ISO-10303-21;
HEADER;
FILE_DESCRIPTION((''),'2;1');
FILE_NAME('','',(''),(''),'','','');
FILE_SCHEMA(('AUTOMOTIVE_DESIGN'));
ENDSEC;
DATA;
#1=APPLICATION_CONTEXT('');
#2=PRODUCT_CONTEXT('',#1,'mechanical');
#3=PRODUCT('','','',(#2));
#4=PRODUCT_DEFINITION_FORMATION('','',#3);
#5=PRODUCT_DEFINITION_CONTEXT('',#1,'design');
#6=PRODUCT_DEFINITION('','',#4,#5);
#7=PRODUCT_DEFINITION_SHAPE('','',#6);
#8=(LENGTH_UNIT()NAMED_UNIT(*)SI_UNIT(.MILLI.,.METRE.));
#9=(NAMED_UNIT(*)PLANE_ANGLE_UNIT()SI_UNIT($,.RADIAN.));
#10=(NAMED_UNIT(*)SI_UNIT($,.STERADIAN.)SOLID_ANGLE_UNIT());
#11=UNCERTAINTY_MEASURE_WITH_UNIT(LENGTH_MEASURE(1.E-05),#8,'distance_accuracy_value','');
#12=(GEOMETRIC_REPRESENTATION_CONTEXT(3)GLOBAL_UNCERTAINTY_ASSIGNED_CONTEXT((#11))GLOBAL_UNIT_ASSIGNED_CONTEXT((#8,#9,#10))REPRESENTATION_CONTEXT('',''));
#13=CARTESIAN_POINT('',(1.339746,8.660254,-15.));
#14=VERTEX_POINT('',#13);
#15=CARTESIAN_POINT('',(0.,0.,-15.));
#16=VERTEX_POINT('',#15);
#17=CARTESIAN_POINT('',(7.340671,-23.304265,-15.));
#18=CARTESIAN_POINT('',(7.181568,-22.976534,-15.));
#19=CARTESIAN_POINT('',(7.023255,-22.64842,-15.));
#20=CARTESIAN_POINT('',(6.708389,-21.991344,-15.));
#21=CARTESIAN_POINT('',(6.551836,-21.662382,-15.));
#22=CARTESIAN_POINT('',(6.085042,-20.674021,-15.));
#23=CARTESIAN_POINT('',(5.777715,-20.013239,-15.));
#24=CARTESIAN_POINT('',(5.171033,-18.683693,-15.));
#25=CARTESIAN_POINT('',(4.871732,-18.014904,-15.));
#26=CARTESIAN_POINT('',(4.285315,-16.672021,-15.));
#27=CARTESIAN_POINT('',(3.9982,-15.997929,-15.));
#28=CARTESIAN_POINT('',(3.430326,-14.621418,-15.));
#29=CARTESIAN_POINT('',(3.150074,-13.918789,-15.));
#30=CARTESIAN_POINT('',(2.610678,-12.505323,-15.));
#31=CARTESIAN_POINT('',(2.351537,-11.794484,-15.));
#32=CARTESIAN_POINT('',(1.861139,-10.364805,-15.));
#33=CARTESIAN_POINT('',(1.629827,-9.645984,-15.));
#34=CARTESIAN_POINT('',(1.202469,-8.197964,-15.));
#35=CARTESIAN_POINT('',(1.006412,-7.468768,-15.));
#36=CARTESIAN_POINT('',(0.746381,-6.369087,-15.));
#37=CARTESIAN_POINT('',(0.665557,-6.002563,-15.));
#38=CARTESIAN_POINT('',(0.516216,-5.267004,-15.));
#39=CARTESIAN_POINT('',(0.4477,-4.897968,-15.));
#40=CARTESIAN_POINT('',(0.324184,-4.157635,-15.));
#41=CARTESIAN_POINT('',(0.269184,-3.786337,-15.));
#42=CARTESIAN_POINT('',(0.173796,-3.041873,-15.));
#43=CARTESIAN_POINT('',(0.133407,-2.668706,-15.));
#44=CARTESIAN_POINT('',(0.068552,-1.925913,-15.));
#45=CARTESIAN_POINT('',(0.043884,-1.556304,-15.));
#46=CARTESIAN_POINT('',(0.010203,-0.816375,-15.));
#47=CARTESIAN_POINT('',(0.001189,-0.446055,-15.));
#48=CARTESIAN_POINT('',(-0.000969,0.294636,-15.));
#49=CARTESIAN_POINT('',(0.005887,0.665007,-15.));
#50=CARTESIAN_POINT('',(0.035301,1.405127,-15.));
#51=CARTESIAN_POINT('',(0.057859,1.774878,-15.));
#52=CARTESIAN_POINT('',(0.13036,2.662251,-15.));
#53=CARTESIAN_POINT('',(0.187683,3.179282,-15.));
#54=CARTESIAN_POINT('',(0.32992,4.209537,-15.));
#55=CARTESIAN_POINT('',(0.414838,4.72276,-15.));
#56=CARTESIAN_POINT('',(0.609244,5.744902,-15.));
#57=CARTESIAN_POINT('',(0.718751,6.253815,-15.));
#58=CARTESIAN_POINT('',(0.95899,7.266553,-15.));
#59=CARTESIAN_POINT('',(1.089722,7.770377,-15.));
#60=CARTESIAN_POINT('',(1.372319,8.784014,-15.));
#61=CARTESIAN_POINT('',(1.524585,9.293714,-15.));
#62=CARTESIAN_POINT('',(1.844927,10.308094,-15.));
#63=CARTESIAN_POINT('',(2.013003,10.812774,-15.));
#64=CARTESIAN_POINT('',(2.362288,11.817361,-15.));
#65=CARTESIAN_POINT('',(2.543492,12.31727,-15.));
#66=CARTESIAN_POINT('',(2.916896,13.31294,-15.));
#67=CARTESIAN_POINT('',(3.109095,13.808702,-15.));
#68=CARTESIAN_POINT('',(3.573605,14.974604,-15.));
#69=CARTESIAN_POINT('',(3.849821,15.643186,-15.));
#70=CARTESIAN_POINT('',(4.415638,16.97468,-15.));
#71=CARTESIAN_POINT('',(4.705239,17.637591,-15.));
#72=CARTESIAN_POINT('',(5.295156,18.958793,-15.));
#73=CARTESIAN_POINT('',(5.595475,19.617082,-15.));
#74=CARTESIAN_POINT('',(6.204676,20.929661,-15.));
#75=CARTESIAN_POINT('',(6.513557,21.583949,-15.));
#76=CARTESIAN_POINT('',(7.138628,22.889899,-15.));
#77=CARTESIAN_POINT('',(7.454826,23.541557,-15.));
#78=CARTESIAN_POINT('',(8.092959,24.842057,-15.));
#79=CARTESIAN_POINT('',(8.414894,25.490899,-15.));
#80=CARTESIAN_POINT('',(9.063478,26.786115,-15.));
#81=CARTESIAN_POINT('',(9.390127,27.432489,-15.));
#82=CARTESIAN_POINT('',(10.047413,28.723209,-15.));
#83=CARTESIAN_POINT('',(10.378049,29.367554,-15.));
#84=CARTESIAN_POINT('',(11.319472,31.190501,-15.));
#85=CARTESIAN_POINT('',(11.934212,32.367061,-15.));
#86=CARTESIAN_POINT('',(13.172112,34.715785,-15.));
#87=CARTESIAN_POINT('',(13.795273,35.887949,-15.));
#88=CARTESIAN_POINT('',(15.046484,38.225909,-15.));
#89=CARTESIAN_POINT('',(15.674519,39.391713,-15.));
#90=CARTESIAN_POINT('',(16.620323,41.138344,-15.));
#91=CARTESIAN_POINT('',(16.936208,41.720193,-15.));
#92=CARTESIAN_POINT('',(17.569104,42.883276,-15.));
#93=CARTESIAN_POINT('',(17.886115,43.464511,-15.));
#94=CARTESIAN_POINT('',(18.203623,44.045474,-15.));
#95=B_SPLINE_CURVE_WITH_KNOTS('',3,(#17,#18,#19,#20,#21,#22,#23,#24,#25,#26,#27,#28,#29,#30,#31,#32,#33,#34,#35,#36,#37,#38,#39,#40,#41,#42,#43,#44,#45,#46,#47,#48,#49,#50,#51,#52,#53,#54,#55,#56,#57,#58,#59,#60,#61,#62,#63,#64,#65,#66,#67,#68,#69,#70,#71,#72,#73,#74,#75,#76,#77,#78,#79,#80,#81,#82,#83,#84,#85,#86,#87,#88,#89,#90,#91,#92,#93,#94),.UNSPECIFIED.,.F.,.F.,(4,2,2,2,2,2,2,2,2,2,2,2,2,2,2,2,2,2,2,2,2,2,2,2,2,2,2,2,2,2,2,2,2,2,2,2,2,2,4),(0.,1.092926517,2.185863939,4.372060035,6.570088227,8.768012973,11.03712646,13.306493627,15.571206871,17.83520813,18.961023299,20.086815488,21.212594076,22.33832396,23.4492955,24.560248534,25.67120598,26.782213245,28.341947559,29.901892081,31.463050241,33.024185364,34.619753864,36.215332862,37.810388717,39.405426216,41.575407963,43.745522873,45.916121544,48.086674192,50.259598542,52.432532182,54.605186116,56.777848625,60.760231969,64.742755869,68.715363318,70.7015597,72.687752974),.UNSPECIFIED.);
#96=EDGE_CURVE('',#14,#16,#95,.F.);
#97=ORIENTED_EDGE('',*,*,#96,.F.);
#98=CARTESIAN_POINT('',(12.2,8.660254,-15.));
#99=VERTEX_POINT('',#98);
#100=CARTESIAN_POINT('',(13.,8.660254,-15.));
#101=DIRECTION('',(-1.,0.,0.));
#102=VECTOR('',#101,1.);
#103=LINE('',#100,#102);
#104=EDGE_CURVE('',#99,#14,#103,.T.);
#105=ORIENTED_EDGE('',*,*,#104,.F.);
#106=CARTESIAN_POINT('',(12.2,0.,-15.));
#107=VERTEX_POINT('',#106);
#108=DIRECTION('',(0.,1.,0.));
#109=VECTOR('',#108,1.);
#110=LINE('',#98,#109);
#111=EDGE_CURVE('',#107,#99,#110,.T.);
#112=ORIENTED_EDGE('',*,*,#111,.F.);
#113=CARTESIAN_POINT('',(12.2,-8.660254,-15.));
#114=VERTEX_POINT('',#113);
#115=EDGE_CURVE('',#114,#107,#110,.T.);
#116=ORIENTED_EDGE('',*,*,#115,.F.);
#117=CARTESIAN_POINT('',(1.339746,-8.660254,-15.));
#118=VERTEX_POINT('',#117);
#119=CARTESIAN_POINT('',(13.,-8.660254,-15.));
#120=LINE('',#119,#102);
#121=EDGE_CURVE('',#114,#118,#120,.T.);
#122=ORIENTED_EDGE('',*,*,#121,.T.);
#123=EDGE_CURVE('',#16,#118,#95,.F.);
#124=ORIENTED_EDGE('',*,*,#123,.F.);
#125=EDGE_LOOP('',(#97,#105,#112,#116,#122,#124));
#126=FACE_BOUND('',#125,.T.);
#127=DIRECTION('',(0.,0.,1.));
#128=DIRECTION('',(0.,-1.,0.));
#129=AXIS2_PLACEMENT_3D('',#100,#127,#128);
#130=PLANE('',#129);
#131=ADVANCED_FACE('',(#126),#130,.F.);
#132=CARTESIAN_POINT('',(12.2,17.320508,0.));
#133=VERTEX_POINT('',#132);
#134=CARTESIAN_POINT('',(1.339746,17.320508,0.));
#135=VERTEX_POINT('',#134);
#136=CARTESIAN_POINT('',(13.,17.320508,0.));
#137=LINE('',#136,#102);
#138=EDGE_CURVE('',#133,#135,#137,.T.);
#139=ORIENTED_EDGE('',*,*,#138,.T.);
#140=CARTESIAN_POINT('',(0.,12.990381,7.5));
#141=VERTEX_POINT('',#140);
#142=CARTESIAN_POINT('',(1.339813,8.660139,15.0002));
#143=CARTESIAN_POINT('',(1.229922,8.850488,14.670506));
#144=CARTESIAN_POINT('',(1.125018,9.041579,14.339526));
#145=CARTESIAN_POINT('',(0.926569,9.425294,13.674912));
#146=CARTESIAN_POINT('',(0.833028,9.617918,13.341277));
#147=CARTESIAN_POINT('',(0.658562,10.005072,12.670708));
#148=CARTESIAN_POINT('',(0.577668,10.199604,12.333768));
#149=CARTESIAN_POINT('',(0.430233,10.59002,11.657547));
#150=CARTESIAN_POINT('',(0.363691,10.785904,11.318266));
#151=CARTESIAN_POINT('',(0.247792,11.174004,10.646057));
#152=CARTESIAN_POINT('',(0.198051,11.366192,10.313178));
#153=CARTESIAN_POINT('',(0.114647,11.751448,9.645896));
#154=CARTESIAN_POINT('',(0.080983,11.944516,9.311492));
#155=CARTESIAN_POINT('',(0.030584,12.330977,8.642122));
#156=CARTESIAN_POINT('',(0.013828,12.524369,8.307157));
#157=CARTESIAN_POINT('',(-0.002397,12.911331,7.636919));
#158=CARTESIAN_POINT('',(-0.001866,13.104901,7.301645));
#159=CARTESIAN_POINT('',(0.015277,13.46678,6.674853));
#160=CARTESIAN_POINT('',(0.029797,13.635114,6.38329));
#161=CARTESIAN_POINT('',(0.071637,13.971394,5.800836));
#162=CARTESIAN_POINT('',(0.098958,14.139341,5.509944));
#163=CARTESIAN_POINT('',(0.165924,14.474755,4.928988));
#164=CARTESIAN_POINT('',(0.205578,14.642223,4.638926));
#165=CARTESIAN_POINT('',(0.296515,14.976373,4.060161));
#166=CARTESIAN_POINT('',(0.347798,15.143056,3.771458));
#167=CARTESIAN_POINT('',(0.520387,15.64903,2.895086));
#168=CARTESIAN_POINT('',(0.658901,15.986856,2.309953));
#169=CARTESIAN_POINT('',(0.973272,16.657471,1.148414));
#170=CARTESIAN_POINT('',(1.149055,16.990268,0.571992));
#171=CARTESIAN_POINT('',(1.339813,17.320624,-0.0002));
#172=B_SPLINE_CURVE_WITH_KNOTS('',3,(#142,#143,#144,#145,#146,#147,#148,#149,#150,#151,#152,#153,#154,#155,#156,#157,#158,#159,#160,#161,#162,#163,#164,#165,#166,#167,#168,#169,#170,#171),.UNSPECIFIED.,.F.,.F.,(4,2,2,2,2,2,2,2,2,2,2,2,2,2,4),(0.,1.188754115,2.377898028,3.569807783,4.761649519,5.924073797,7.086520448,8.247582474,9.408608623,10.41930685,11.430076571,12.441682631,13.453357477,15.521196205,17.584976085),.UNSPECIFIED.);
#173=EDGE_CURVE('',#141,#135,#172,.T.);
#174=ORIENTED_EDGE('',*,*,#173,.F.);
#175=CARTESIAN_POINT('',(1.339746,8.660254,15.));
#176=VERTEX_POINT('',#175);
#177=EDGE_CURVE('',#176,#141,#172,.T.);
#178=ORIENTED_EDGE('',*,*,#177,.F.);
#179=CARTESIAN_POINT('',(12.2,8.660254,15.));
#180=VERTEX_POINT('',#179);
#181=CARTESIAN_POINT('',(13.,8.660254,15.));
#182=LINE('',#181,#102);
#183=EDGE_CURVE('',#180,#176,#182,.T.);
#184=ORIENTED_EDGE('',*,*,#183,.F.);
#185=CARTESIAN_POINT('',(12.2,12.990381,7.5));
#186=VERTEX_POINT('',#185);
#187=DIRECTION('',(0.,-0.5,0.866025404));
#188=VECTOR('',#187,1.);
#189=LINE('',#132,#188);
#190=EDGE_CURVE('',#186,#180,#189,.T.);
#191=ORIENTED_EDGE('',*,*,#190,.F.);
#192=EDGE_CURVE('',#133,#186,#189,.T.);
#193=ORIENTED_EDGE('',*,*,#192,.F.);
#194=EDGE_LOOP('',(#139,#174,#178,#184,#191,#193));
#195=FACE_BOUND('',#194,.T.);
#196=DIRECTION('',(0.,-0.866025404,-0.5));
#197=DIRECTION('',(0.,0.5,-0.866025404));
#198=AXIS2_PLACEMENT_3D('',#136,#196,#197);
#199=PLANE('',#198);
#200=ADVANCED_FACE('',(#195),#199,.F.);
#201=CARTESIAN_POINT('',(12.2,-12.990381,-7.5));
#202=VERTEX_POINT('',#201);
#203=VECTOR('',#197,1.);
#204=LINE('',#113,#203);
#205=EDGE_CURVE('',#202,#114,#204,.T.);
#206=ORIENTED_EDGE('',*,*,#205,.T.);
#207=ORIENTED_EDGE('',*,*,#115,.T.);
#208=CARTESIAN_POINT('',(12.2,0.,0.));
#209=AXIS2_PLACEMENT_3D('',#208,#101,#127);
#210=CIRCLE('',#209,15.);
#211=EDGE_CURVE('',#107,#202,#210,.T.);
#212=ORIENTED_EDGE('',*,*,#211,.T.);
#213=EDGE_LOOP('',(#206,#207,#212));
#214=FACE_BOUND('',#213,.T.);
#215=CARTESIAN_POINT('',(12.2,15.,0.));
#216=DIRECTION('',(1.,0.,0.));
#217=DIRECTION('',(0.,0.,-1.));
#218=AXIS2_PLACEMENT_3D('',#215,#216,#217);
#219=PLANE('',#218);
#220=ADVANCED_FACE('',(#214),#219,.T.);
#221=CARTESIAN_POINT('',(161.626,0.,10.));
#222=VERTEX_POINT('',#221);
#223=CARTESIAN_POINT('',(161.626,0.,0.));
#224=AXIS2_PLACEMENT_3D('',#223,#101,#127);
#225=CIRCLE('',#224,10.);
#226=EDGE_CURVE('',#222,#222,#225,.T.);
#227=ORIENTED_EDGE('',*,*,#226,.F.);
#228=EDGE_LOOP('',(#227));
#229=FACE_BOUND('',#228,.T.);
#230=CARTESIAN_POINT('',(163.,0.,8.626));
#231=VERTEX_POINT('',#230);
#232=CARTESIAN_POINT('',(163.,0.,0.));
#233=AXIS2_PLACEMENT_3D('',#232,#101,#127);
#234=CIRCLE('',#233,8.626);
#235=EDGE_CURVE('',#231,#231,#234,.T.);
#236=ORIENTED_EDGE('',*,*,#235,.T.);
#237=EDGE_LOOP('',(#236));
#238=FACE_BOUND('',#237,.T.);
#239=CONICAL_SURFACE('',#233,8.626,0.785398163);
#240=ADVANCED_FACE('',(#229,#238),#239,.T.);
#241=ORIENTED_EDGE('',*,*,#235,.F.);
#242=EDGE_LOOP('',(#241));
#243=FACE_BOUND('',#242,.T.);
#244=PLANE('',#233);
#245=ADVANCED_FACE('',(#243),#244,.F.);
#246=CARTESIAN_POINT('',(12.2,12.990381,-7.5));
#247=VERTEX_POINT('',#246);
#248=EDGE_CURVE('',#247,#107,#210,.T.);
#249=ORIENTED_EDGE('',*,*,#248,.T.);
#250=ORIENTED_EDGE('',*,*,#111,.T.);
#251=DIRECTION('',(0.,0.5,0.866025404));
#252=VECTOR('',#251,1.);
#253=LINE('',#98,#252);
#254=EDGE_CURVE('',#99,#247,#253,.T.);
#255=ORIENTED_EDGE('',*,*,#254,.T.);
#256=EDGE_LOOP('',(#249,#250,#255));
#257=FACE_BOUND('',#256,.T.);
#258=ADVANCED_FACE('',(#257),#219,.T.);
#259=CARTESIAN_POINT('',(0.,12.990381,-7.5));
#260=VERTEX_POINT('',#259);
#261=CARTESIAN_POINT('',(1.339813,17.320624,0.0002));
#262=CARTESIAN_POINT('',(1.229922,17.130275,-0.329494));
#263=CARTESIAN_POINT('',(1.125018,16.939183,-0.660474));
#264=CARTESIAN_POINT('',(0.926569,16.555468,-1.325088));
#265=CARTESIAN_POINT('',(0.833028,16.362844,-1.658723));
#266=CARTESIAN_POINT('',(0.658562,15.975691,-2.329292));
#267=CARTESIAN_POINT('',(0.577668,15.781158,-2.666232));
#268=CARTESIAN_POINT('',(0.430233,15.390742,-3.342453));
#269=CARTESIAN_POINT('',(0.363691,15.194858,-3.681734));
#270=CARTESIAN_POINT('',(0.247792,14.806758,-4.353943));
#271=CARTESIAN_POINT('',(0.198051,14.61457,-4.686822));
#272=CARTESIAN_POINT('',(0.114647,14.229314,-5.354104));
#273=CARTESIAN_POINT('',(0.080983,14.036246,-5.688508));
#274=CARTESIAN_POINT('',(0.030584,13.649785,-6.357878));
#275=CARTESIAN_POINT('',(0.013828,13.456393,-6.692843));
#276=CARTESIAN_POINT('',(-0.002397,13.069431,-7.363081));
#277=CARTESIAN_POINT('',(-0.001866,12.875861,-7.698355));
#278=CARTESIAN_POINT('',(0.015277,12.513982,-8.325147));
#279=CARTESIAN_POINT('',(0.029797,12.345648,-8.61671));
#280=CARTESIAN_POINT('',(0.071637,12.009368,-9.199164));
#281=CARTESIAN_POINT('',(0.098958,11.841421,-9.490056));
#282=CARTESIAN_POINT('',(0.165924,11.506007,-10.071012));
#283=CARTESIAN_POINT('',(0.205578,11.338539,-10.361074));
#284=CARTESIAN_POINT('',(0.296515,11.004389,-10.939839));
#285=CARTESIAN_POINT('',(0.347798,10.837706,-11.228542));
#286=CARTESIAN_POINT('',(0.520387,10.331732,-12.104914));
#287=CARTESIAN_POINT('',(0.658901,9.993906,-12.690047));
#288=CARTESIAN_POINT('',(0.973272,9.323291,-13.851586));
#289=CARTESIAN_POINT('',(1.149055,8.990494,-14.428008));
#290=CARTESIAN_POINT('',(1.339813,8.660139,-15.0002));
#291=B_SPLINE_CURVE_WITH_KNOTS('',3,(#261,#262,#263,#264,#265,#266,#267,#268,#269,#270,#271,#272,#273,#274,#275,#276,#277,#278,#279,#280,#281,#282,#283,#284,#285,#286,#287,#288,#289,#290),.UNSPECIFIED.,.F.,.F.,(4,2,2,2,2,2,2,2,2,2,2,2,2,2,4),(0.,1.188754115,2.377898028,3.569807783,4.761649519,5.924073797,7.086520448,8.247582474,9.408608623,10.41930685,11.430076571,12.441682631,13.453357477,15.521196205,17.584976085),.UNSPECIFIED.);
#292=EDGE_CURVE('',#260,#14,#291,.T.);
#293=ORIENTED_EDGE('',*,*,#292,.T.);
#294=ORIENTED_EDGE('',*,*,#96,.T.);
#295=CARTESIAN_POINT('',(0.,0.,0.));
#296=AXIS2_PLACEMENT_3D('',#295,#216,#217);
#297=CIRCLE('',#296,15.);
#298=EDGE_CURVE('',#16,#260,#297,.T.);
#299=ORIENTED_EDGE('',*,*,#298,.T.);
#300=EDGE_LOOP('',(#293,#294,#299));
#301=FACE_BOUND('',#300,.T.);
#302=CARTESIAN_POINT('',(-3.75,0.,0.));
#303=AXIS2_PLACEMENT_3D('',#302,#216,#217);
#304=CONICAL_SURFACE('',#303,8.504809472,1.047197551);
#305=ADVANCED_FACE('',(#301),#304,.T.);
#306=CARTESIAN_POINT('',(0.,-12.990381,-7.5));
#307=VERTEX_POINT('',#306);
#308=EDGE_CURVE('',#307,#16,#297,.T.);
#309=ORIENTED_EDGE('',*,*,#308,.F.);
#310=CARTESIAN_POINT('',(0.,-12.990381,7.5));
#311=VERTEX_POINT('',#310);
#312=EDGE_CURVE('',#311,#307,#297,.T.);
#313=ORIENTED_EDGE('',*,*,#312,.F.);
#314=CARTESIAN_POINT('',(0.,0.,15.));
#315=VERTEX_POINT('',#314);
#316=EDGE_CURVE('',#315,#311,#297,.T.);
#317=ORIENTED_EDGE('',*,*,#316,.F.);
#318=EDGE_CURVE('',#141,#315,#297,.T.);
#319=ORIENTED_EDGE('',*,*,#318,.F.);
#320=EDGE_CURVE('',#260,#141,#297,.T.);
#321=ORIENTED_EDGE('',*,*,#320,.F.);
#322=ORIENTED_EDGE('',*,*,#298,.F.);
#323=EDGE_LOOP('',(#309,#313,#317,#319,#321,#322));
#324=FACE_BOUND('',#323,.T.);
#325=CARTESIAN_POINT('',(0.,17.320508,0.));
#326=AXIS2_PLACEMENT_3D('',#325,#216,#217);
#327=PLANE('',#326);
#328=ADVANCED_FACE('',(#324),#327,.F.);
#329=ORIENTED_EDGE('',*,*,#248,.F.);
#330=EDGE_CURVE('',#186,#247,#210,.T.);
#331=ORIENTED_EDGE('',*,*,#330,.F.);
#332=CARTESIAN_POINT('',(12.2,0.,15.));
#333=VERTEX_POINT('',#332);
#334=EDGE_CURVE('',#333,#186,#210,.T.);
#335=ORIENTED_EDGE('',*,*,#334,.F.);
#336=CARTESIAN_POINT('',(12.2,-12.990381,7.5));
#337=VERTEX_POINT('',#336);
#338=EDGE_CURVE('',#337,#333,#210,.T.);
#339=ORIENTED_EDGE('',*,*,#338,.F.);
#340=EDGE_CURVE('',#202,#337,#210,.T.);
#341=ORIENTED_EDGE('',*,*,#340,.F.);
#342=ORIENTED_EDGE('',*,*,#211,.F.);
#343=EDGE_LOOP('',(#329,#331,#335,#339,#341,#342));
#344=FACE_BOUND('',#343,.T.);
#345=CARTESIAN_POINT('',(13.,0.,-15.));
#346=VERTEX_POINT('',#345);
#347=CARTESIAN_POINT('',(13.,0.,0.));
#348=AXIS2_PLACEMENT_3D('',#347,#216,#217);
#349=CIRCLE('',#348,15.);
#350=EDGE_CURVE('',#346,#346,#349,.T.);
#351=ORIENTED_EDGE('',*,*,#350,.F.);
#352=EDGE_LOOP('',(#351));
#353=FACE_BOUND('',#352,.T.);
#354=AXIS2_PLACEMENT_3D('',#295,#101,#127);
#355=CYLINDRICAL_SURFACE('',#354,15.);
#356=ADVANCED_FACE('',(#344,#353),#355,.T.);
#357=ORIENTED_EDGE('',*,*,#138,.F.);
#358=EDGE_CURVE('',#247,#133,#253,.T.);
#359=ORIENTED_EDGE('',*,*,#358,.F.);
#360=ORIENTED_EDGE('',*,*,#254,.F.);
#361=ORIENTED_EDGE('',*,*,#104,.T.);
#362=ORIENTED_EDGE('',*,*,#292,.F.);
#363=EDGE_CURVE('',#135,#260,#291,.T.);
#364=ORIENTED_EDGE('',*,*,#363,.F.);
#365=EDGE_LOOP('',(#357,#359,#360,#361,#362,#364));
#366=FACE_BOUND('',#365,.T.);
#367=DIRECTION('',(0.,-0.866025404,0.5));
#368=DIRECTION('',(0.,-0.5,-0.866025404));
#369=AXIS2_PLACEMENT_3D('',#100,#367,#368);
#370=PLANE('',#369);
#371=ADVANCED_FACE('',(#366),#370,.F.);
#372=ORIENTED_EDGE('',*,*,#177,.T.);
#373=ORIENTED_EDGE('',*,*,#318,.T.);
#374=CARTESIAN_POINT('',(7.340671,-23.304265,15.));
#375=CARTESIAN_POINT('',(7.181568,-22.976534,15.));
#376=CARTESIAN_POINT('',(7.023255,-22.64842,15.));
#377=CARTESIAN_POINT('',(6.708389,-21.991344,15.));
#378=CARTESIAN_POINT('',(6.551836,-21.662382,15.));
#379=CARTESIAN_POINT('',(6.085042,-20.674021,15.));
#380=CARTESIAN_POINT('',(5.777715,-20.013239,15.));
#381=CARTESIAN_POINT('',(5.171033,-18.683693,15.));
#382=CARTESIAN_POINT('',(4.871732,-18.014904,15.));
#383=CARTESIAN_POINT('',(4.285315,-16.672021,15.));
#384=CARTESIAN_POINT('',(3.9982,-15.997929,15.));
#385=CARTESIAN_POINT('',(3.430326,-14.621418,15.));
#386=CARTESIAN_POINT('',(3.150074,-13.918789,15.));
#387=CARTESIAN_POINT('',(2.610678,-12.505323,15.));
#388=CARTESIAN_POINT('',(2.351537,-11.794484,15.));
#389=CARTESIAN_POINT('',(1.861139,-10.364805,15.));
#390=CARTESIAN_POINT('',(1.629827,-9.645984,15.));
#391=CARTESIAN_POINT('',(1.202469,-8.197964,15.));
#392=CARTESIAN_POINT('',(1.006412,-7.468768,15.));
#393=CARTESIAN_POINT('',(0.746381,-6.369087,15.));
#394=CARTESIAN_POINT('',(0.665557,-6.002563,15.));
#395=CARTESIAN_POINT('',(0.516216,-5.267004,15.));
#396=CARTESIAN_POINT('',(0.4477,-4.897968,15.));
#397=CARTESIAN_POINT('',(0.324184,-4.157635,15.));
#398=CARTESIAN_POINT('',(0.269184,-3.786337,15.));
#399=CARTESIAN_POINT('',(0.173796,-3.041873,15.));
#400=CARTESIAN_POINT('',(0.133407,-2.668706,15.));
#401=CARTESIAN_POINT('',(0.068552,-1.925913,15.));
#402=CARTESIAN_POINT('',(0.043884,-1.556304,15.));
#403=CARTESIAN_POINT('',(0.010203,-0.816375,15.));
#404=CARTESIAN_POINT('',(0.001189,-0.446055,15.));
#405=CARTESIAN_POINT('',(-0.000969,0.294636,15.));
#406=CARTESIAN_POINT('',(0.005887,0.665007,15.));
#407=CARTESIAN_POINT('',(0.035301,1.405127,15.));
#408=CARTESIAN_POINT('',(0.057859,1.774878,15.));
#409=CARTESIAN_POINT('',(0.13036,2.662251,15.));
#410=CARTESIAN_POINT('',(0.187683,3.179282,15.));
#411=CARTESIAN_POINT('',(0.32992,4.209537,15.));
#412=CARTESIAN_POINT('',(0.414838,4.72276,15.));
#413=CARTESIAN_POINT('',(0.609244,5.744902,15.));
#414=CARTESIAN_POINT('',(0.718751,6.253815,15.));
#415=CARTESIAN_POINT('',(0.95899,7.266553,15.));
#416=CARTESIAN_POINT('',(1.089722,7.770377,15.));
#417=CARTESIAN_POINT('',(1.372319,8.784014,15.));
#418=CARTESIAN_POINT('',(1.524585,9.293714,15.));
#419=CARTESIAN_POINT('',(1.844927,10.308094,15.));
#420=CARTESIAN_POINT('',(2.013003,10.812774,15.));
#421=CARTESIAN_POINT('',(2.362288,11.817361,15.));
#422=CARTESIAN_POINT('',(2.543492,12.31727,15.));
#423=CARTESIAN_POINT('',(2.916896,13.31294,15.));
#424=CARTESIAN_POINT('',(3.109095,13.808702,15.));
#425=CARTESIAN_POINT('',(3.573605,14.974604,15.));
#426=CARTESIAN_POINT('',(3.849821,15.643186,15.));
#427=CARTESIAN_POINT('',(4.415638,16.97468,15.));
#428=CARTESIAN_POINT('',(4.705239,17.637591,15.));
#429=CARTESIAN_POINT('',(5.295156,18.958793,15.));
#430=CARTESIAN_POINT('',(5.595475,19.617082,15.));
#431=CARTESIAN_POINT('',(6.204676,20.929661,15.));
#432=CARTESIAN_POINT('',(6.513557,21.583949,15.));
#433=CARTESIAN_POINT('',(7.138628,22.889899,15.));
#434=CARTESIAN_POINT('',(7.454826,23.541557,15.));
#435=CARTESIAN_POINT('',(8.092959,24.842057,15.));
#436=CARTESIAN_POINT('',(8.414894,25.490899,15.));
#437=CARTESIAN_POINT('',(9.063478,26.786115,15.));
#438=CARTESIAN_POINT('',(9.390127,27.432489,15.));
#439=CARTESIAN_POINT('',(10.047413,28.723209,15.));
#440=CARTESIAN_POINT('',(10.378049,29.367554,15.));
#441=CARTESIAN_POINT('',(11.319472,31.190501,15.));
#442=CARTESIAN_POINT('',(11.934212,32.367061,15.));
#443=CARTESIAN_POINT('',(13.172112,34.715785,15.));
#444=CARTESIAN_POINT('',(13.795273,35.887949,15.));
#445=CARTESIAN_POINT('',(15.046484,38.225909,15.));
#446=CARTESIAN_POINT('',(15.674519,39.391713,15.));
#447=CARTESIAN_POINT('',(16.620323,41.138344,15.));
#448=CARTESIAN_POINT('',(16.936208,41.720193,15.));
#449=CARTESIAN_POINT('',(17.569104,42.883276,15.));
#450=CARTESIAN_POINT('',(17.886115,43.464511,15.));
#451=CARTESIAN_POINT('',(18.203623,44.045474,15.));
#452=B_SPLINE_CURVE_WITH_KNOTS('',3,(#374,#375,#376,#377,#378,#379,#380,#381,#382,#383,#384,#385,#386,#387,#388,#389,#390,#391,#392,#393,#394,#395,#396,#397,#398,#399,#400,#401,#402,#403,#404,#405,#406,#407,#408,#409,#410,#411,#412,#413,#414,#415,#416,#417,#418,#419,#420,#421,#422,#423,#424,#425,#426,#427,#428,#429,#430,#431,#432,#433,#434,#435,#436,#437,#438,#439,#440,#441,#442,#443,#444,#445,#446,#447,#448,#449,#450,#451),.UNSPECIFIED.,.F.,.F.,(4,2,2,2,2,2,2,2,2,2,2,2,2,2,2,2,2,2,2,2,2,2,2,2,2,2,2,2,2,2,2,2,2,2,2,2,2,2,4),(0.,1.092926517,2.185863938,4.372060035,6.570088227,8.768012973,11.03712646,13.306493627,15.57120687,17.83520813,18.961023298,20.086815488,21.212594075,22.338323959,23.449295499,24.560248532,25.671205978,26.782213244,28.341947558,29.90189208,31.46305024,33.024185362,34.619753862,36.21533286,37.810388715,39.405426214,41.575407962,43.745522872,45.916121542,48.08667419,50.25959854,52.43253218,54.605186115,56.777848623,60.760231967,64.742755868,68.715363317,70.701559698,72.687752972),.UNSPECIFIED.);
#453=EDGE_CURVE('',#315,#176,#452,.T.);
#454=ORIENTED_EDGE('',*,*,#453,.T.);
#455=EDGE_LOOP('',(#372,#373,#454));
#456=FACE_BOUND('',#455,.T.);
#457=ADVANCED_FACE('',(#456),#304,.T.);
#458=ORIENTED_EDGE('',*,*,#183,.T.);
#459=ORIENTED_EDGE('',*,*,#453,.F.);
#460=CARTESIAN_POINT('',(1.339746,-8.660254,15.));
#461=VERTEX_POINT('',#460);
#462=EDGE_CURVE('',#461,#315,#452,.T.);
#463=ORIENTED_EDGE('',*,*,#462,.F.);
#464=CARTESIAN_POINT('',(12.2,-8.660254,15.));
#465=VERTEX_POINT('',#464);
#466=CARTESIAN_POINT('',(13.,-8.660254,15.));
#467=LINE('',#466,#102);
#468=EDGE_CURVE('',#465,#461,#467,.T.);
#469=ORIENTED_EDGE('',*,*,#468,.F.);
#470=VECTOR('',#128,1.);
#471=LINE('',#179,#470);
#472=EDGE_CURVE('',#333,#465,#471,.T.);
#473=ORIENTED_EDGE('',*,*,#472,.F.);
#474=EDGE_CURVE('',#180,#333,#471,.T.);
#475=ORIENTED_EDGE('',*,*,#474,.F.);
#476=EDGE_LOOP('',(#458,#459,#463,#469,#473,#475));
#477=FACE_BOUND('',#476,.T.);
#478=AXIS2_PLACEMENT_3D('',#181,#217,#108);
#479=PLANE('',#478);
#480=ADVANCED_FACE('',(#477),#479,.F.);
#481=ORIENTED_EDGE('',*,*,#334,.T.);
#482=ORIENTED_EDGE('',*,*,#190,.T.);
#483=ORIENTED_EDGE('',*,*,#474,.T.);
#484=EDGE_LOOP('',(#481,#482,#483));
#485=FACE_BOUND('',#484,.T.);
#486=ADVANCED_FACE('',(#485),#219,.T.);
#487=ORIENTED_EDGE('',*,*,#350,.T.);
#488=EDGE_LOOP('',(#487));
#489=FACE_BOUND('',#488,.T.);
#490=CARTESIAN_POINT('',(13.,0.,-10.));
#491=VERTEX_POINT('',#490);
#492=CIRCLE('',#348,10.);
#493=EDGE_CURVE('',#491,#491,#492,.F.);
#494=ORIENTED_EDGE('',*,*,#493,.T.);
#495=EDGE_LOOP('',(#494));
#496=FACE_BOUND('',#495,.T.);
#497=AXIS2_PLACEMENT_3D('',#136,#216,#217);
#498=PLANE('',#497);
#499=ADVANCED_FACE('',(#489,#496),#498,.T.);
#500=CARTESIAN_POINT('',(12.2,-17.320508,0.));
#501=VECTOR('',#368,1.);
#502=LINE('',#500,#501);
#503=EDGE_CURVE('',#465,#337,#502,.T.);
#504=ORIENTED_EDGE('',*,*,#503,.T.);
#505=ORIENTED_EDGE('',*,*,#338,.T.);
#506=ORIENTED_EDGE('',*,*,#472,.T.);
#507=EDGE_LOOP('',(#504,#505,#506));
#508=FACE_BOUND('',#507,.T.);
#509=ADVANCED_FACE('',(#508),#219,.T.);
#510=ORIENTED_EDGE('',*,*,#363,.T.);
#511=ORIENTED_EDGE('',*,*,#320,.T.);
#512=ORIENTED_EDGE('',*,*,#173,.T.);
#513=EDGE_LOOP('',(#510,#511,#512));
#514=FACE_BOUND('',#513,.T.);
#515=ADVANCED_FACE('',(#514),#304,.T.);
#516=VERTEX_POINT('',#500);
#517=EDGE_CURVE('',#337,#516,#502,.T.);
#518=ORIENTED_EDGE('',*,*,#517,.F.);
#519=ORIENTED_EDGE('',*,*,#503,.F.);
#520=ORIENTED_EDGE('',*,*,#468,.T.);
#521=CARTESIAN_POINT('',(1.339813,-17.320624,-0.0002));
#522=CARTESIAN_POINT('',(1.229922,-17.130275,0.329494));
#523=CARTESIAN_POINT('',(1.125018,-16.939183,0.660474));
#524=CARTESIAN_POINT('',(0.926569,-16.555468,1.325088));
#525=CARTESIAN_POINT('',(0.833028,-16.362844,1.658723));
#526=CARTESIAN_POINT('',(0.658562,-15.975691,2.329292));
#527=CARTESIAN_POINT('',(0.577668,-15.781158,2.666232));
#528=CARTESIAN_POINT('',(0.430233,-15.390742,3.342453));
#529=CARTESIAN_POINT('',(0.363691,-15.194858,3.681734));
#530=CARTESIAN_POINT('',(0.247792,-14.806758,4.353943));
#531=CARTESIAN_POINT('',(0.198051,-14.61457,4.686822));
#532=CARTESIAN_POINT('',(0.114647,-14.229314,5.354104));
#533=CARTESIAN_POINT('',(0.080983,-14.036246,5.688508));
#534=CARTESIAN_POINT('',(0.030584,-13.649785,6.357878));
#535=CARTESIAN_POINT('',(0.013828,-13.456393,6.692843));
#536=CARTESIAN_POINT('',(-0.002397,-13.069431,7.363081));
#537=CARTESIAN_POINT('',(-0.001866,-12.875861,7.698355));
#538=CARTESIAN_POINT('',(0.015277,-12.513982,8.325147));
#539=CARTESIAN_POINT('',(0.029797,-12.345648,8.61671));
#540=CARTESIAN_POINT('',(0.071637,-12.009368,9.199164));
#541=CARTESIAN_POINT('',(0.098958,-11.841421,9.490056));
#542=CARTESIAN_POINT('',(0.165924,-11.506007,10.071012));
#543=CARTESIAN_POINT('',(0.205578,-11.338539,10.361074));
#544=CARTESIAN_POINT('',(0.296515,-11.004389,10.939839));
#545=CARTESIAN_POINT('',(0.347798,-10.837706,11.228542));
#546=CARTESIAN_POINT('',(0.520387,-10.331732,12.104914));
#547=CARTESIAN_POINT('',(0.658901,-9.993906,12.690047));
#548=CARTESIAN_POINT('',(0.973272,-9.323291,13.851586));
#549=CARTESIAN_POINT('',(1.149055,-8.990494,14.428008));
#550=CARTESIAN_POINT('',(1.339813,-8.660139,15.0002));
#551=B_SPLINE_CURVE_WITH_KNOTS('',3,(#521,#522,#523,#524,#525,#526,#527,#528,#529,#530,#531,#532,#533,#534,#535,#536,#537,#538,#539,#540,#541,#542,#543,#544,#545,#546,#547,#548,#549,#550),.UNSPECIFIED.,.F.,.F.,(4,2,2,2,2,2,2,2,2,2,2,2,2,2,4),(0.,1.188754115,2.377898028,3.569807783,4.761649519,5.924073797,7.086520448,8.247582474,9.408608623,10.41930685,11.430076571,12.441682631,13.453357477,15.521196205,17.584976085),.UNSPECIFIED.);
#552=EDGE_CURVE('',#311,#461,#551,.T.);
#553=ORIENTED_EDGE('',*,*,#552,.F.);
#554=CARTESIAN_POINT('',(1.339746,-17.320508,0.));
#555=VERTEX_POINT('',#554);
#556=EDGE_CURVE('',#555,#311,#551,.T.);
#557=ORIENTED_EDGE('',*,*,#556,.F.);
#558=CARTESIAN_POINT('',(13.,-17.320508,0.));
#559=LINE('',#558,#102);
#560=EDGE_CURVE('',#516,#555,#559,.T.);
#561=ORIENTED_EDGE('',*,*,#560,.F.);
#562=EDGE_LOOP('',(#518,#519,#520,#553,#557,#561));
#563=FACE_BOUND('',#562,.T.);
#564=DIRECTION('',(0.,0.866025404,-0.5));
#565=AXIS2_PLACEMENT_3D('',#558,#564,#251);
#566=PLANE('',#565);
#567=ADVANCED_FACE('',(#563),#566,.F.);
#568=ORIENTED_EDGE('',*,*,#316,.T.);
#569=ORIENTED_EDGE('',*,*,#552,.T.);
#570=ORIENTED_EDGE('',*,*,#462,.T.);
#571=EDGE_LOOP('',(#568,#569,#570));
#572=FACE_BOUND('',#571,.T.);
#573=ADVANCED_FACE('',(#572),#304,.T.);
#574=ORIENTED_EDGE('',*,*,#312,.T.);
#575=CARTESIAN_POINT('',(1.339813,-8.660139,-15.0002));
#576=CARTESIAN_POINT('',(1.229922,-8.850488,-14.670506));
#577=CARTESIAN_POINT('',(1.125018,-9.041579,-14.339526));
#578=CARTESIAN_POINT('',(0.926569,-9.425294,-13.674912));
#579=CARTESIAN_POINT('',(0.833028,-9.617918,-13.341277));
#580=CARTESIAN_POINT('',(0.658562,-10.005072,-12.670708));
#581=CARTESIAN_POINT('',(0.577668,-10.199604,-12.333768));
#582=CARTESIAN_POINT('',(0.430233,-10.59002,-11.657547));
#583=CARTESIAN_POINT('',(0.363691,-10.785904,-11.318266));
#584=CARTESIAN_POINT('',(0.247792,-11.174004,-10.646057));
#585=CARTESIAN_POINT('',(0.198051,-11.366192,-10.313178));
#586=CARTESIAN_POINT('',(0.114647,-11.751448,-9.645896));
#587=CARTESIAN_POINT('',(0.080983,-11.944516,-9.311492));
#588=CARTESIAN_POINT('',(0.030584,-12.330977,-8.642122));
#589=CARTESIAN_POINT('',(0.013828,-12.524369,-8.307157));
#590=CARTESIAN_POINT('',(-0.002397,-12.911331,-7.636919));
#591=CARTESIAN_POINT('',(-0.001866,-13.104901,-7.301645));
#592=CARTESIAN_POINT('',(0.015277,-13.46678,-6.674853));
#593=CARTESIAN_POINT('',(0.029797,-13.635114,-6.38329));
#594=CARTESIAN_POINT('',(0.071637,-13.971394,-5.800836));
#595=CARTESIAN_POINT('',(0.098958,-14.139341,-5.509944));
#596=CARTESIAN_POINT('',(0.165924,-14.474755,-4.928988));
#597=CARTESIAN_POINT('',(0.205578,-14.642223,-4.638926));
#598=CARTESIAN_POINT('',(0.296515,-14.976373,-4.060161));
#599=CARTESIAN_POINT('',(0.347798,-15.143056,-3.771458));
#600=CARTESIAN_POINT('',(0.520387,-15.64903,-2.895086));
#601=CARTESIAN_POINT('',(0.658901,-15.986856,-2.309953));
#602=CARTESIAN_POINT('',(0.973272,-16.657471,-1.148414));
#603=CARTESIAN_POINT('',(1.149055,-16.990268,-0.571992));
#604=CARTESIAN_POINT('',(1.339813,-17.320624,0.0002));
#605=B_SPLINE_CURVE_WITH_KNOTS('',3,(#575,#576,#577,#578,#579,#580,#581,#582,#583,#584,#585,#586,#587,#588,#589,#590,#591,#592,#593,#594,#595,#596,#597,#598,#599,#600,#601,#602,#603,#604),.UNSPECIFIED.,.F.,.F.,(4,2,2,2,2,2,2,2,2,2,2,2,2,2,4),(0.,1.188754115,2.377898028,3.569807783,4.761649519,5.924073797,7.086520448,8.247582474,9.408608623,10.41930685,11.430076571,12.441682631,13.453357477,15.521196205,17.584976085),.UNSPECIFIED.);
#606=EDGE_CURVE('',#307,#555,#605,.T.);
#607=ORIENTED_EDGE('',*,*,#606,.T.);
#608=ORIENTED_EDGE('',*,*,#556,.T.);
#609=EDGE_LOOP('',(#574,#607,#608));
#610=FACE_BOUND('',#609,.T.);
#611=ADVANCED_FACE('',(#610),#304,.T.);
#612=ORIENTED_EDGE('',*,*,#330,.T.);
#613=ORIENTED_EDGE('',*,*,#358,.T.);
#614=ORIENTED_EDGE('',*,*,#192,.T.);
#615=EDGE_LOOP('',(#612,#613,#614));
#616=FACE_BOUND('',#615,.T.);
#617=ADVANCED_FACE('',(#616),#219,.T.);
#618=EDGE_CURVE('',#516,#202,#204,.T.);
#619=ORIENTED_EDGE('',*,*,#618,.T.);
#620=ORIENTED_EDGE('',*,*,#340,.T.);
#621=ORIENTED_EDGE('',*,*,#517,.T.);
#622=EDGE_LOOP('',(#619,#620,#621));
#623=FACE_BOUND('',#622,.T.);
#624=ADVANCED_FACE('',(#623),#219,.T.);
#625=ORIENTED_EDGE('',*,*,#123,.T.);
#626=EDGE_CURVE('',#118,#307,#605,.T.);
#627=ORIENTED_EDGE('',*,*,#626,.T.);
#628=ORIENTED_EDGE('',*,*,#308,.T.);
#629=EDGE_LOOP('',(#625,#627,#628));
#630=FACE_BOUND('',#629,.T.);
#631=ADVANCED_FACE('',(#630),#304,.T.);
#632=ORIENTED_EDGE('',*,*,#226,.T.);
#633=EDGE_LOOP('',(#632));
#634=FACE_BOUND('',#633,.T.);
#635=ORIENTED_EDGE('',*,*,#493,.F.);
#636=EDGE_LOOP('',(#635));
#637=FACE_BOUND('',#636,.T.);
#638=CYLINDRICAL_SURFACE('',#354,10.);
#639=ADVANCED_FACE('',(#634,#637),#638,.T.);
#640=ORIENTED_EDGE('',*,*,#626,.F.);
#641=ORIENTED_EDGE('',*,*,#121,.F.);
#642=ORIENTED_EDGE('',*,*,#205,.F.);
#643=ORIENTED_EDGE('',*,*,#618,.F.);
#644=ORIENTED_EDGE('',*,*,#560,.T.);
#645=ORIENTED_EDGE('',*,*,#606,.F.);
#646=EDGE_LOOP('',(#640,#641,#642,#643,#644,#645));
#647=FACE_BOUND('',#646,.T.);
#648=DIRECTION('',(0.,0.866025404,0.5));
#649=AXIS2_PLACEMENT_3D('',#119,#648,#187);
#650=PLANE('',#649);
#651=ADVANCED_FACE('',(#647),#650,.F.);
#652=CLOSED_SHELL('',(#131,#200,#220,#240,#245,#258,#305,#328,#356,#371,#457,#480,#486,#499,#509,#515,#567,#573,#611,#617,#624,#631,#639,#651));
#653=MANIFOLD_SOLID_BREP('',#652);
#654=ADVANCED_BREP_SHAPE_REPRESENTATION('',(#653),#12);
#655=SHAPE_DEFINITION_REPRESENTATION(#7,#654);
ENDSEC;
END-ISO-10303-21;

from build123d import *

# Parameters (mm, degrees)
BASEHEAD_DEPTH = 13
BEARINGSKE_W   = 0.8
BEARINGSKE_H   = 2.320508076


with BuildPart() as part:
    # HeadSke → BaseHead (new body)
    with BuildSketch(Plane(origin=(0, 0, 0), x_dir=(0, 0, -1), z_dir=(1, 0, 0))):
        Polygon((15, 8.660254038), (15, -8.660254038), (0, -17.320508076), (-15, -8.660254038), (-15, 8.660254038), (0, 17.320508076), align=None)
    extrude(amount=BASEHEAD_DEPTH)

    # BodySke → BaseBody (revolve)
    with BuildSketch(Plane.XY, mode=Mode.PRIVATE) as basebody_sk:
        Polygon((0, 0), (163, 0), (163, 8.626), (161.626, 10), (0, 10), align=None)
    revolve(basebody_sk.sketch.rotate(Axis((0, 0, 0), (1, 0, 0)), 90), axis=Axis((0, 0, 0), (1, 0, 0)))

    # Sketch3 → HeadChamfer (revolve, cut)
    with BuildSketch(Plane(origin=(0, 0, 0), x_dir=(1, 0, 0), z_dir=(0, 1, 0))):
        Polygon((3.75, 21.495190528), (-3.75, 8.504809472), (-15.804766255, 15.464632014), (-8.304766255, 28.455013071), align=None)
    revolve(axis=Axis((0, 0, 0), (1, 0, 0)), mode=Mode.SUBTRACT)

    # BearingSke → BearingFace (revolve, cut)
    with BuildSketch(Plane.XY, mode=Mode.PRIVATE) as bearingface_sk:
        with Locations((12.6, 16.160254038)):
            Rectangle(BEARINGSKE_W, BEARINGSKE_H)
    revolve(bearingface_sk.sketch.rotate(Axis((0, 0, 0), (1, 0, 0)), 270), axis=Axis((0, 0, 0), (1, 0, 0)), mode=Mode.SUBTRACT)


solid = part.part
